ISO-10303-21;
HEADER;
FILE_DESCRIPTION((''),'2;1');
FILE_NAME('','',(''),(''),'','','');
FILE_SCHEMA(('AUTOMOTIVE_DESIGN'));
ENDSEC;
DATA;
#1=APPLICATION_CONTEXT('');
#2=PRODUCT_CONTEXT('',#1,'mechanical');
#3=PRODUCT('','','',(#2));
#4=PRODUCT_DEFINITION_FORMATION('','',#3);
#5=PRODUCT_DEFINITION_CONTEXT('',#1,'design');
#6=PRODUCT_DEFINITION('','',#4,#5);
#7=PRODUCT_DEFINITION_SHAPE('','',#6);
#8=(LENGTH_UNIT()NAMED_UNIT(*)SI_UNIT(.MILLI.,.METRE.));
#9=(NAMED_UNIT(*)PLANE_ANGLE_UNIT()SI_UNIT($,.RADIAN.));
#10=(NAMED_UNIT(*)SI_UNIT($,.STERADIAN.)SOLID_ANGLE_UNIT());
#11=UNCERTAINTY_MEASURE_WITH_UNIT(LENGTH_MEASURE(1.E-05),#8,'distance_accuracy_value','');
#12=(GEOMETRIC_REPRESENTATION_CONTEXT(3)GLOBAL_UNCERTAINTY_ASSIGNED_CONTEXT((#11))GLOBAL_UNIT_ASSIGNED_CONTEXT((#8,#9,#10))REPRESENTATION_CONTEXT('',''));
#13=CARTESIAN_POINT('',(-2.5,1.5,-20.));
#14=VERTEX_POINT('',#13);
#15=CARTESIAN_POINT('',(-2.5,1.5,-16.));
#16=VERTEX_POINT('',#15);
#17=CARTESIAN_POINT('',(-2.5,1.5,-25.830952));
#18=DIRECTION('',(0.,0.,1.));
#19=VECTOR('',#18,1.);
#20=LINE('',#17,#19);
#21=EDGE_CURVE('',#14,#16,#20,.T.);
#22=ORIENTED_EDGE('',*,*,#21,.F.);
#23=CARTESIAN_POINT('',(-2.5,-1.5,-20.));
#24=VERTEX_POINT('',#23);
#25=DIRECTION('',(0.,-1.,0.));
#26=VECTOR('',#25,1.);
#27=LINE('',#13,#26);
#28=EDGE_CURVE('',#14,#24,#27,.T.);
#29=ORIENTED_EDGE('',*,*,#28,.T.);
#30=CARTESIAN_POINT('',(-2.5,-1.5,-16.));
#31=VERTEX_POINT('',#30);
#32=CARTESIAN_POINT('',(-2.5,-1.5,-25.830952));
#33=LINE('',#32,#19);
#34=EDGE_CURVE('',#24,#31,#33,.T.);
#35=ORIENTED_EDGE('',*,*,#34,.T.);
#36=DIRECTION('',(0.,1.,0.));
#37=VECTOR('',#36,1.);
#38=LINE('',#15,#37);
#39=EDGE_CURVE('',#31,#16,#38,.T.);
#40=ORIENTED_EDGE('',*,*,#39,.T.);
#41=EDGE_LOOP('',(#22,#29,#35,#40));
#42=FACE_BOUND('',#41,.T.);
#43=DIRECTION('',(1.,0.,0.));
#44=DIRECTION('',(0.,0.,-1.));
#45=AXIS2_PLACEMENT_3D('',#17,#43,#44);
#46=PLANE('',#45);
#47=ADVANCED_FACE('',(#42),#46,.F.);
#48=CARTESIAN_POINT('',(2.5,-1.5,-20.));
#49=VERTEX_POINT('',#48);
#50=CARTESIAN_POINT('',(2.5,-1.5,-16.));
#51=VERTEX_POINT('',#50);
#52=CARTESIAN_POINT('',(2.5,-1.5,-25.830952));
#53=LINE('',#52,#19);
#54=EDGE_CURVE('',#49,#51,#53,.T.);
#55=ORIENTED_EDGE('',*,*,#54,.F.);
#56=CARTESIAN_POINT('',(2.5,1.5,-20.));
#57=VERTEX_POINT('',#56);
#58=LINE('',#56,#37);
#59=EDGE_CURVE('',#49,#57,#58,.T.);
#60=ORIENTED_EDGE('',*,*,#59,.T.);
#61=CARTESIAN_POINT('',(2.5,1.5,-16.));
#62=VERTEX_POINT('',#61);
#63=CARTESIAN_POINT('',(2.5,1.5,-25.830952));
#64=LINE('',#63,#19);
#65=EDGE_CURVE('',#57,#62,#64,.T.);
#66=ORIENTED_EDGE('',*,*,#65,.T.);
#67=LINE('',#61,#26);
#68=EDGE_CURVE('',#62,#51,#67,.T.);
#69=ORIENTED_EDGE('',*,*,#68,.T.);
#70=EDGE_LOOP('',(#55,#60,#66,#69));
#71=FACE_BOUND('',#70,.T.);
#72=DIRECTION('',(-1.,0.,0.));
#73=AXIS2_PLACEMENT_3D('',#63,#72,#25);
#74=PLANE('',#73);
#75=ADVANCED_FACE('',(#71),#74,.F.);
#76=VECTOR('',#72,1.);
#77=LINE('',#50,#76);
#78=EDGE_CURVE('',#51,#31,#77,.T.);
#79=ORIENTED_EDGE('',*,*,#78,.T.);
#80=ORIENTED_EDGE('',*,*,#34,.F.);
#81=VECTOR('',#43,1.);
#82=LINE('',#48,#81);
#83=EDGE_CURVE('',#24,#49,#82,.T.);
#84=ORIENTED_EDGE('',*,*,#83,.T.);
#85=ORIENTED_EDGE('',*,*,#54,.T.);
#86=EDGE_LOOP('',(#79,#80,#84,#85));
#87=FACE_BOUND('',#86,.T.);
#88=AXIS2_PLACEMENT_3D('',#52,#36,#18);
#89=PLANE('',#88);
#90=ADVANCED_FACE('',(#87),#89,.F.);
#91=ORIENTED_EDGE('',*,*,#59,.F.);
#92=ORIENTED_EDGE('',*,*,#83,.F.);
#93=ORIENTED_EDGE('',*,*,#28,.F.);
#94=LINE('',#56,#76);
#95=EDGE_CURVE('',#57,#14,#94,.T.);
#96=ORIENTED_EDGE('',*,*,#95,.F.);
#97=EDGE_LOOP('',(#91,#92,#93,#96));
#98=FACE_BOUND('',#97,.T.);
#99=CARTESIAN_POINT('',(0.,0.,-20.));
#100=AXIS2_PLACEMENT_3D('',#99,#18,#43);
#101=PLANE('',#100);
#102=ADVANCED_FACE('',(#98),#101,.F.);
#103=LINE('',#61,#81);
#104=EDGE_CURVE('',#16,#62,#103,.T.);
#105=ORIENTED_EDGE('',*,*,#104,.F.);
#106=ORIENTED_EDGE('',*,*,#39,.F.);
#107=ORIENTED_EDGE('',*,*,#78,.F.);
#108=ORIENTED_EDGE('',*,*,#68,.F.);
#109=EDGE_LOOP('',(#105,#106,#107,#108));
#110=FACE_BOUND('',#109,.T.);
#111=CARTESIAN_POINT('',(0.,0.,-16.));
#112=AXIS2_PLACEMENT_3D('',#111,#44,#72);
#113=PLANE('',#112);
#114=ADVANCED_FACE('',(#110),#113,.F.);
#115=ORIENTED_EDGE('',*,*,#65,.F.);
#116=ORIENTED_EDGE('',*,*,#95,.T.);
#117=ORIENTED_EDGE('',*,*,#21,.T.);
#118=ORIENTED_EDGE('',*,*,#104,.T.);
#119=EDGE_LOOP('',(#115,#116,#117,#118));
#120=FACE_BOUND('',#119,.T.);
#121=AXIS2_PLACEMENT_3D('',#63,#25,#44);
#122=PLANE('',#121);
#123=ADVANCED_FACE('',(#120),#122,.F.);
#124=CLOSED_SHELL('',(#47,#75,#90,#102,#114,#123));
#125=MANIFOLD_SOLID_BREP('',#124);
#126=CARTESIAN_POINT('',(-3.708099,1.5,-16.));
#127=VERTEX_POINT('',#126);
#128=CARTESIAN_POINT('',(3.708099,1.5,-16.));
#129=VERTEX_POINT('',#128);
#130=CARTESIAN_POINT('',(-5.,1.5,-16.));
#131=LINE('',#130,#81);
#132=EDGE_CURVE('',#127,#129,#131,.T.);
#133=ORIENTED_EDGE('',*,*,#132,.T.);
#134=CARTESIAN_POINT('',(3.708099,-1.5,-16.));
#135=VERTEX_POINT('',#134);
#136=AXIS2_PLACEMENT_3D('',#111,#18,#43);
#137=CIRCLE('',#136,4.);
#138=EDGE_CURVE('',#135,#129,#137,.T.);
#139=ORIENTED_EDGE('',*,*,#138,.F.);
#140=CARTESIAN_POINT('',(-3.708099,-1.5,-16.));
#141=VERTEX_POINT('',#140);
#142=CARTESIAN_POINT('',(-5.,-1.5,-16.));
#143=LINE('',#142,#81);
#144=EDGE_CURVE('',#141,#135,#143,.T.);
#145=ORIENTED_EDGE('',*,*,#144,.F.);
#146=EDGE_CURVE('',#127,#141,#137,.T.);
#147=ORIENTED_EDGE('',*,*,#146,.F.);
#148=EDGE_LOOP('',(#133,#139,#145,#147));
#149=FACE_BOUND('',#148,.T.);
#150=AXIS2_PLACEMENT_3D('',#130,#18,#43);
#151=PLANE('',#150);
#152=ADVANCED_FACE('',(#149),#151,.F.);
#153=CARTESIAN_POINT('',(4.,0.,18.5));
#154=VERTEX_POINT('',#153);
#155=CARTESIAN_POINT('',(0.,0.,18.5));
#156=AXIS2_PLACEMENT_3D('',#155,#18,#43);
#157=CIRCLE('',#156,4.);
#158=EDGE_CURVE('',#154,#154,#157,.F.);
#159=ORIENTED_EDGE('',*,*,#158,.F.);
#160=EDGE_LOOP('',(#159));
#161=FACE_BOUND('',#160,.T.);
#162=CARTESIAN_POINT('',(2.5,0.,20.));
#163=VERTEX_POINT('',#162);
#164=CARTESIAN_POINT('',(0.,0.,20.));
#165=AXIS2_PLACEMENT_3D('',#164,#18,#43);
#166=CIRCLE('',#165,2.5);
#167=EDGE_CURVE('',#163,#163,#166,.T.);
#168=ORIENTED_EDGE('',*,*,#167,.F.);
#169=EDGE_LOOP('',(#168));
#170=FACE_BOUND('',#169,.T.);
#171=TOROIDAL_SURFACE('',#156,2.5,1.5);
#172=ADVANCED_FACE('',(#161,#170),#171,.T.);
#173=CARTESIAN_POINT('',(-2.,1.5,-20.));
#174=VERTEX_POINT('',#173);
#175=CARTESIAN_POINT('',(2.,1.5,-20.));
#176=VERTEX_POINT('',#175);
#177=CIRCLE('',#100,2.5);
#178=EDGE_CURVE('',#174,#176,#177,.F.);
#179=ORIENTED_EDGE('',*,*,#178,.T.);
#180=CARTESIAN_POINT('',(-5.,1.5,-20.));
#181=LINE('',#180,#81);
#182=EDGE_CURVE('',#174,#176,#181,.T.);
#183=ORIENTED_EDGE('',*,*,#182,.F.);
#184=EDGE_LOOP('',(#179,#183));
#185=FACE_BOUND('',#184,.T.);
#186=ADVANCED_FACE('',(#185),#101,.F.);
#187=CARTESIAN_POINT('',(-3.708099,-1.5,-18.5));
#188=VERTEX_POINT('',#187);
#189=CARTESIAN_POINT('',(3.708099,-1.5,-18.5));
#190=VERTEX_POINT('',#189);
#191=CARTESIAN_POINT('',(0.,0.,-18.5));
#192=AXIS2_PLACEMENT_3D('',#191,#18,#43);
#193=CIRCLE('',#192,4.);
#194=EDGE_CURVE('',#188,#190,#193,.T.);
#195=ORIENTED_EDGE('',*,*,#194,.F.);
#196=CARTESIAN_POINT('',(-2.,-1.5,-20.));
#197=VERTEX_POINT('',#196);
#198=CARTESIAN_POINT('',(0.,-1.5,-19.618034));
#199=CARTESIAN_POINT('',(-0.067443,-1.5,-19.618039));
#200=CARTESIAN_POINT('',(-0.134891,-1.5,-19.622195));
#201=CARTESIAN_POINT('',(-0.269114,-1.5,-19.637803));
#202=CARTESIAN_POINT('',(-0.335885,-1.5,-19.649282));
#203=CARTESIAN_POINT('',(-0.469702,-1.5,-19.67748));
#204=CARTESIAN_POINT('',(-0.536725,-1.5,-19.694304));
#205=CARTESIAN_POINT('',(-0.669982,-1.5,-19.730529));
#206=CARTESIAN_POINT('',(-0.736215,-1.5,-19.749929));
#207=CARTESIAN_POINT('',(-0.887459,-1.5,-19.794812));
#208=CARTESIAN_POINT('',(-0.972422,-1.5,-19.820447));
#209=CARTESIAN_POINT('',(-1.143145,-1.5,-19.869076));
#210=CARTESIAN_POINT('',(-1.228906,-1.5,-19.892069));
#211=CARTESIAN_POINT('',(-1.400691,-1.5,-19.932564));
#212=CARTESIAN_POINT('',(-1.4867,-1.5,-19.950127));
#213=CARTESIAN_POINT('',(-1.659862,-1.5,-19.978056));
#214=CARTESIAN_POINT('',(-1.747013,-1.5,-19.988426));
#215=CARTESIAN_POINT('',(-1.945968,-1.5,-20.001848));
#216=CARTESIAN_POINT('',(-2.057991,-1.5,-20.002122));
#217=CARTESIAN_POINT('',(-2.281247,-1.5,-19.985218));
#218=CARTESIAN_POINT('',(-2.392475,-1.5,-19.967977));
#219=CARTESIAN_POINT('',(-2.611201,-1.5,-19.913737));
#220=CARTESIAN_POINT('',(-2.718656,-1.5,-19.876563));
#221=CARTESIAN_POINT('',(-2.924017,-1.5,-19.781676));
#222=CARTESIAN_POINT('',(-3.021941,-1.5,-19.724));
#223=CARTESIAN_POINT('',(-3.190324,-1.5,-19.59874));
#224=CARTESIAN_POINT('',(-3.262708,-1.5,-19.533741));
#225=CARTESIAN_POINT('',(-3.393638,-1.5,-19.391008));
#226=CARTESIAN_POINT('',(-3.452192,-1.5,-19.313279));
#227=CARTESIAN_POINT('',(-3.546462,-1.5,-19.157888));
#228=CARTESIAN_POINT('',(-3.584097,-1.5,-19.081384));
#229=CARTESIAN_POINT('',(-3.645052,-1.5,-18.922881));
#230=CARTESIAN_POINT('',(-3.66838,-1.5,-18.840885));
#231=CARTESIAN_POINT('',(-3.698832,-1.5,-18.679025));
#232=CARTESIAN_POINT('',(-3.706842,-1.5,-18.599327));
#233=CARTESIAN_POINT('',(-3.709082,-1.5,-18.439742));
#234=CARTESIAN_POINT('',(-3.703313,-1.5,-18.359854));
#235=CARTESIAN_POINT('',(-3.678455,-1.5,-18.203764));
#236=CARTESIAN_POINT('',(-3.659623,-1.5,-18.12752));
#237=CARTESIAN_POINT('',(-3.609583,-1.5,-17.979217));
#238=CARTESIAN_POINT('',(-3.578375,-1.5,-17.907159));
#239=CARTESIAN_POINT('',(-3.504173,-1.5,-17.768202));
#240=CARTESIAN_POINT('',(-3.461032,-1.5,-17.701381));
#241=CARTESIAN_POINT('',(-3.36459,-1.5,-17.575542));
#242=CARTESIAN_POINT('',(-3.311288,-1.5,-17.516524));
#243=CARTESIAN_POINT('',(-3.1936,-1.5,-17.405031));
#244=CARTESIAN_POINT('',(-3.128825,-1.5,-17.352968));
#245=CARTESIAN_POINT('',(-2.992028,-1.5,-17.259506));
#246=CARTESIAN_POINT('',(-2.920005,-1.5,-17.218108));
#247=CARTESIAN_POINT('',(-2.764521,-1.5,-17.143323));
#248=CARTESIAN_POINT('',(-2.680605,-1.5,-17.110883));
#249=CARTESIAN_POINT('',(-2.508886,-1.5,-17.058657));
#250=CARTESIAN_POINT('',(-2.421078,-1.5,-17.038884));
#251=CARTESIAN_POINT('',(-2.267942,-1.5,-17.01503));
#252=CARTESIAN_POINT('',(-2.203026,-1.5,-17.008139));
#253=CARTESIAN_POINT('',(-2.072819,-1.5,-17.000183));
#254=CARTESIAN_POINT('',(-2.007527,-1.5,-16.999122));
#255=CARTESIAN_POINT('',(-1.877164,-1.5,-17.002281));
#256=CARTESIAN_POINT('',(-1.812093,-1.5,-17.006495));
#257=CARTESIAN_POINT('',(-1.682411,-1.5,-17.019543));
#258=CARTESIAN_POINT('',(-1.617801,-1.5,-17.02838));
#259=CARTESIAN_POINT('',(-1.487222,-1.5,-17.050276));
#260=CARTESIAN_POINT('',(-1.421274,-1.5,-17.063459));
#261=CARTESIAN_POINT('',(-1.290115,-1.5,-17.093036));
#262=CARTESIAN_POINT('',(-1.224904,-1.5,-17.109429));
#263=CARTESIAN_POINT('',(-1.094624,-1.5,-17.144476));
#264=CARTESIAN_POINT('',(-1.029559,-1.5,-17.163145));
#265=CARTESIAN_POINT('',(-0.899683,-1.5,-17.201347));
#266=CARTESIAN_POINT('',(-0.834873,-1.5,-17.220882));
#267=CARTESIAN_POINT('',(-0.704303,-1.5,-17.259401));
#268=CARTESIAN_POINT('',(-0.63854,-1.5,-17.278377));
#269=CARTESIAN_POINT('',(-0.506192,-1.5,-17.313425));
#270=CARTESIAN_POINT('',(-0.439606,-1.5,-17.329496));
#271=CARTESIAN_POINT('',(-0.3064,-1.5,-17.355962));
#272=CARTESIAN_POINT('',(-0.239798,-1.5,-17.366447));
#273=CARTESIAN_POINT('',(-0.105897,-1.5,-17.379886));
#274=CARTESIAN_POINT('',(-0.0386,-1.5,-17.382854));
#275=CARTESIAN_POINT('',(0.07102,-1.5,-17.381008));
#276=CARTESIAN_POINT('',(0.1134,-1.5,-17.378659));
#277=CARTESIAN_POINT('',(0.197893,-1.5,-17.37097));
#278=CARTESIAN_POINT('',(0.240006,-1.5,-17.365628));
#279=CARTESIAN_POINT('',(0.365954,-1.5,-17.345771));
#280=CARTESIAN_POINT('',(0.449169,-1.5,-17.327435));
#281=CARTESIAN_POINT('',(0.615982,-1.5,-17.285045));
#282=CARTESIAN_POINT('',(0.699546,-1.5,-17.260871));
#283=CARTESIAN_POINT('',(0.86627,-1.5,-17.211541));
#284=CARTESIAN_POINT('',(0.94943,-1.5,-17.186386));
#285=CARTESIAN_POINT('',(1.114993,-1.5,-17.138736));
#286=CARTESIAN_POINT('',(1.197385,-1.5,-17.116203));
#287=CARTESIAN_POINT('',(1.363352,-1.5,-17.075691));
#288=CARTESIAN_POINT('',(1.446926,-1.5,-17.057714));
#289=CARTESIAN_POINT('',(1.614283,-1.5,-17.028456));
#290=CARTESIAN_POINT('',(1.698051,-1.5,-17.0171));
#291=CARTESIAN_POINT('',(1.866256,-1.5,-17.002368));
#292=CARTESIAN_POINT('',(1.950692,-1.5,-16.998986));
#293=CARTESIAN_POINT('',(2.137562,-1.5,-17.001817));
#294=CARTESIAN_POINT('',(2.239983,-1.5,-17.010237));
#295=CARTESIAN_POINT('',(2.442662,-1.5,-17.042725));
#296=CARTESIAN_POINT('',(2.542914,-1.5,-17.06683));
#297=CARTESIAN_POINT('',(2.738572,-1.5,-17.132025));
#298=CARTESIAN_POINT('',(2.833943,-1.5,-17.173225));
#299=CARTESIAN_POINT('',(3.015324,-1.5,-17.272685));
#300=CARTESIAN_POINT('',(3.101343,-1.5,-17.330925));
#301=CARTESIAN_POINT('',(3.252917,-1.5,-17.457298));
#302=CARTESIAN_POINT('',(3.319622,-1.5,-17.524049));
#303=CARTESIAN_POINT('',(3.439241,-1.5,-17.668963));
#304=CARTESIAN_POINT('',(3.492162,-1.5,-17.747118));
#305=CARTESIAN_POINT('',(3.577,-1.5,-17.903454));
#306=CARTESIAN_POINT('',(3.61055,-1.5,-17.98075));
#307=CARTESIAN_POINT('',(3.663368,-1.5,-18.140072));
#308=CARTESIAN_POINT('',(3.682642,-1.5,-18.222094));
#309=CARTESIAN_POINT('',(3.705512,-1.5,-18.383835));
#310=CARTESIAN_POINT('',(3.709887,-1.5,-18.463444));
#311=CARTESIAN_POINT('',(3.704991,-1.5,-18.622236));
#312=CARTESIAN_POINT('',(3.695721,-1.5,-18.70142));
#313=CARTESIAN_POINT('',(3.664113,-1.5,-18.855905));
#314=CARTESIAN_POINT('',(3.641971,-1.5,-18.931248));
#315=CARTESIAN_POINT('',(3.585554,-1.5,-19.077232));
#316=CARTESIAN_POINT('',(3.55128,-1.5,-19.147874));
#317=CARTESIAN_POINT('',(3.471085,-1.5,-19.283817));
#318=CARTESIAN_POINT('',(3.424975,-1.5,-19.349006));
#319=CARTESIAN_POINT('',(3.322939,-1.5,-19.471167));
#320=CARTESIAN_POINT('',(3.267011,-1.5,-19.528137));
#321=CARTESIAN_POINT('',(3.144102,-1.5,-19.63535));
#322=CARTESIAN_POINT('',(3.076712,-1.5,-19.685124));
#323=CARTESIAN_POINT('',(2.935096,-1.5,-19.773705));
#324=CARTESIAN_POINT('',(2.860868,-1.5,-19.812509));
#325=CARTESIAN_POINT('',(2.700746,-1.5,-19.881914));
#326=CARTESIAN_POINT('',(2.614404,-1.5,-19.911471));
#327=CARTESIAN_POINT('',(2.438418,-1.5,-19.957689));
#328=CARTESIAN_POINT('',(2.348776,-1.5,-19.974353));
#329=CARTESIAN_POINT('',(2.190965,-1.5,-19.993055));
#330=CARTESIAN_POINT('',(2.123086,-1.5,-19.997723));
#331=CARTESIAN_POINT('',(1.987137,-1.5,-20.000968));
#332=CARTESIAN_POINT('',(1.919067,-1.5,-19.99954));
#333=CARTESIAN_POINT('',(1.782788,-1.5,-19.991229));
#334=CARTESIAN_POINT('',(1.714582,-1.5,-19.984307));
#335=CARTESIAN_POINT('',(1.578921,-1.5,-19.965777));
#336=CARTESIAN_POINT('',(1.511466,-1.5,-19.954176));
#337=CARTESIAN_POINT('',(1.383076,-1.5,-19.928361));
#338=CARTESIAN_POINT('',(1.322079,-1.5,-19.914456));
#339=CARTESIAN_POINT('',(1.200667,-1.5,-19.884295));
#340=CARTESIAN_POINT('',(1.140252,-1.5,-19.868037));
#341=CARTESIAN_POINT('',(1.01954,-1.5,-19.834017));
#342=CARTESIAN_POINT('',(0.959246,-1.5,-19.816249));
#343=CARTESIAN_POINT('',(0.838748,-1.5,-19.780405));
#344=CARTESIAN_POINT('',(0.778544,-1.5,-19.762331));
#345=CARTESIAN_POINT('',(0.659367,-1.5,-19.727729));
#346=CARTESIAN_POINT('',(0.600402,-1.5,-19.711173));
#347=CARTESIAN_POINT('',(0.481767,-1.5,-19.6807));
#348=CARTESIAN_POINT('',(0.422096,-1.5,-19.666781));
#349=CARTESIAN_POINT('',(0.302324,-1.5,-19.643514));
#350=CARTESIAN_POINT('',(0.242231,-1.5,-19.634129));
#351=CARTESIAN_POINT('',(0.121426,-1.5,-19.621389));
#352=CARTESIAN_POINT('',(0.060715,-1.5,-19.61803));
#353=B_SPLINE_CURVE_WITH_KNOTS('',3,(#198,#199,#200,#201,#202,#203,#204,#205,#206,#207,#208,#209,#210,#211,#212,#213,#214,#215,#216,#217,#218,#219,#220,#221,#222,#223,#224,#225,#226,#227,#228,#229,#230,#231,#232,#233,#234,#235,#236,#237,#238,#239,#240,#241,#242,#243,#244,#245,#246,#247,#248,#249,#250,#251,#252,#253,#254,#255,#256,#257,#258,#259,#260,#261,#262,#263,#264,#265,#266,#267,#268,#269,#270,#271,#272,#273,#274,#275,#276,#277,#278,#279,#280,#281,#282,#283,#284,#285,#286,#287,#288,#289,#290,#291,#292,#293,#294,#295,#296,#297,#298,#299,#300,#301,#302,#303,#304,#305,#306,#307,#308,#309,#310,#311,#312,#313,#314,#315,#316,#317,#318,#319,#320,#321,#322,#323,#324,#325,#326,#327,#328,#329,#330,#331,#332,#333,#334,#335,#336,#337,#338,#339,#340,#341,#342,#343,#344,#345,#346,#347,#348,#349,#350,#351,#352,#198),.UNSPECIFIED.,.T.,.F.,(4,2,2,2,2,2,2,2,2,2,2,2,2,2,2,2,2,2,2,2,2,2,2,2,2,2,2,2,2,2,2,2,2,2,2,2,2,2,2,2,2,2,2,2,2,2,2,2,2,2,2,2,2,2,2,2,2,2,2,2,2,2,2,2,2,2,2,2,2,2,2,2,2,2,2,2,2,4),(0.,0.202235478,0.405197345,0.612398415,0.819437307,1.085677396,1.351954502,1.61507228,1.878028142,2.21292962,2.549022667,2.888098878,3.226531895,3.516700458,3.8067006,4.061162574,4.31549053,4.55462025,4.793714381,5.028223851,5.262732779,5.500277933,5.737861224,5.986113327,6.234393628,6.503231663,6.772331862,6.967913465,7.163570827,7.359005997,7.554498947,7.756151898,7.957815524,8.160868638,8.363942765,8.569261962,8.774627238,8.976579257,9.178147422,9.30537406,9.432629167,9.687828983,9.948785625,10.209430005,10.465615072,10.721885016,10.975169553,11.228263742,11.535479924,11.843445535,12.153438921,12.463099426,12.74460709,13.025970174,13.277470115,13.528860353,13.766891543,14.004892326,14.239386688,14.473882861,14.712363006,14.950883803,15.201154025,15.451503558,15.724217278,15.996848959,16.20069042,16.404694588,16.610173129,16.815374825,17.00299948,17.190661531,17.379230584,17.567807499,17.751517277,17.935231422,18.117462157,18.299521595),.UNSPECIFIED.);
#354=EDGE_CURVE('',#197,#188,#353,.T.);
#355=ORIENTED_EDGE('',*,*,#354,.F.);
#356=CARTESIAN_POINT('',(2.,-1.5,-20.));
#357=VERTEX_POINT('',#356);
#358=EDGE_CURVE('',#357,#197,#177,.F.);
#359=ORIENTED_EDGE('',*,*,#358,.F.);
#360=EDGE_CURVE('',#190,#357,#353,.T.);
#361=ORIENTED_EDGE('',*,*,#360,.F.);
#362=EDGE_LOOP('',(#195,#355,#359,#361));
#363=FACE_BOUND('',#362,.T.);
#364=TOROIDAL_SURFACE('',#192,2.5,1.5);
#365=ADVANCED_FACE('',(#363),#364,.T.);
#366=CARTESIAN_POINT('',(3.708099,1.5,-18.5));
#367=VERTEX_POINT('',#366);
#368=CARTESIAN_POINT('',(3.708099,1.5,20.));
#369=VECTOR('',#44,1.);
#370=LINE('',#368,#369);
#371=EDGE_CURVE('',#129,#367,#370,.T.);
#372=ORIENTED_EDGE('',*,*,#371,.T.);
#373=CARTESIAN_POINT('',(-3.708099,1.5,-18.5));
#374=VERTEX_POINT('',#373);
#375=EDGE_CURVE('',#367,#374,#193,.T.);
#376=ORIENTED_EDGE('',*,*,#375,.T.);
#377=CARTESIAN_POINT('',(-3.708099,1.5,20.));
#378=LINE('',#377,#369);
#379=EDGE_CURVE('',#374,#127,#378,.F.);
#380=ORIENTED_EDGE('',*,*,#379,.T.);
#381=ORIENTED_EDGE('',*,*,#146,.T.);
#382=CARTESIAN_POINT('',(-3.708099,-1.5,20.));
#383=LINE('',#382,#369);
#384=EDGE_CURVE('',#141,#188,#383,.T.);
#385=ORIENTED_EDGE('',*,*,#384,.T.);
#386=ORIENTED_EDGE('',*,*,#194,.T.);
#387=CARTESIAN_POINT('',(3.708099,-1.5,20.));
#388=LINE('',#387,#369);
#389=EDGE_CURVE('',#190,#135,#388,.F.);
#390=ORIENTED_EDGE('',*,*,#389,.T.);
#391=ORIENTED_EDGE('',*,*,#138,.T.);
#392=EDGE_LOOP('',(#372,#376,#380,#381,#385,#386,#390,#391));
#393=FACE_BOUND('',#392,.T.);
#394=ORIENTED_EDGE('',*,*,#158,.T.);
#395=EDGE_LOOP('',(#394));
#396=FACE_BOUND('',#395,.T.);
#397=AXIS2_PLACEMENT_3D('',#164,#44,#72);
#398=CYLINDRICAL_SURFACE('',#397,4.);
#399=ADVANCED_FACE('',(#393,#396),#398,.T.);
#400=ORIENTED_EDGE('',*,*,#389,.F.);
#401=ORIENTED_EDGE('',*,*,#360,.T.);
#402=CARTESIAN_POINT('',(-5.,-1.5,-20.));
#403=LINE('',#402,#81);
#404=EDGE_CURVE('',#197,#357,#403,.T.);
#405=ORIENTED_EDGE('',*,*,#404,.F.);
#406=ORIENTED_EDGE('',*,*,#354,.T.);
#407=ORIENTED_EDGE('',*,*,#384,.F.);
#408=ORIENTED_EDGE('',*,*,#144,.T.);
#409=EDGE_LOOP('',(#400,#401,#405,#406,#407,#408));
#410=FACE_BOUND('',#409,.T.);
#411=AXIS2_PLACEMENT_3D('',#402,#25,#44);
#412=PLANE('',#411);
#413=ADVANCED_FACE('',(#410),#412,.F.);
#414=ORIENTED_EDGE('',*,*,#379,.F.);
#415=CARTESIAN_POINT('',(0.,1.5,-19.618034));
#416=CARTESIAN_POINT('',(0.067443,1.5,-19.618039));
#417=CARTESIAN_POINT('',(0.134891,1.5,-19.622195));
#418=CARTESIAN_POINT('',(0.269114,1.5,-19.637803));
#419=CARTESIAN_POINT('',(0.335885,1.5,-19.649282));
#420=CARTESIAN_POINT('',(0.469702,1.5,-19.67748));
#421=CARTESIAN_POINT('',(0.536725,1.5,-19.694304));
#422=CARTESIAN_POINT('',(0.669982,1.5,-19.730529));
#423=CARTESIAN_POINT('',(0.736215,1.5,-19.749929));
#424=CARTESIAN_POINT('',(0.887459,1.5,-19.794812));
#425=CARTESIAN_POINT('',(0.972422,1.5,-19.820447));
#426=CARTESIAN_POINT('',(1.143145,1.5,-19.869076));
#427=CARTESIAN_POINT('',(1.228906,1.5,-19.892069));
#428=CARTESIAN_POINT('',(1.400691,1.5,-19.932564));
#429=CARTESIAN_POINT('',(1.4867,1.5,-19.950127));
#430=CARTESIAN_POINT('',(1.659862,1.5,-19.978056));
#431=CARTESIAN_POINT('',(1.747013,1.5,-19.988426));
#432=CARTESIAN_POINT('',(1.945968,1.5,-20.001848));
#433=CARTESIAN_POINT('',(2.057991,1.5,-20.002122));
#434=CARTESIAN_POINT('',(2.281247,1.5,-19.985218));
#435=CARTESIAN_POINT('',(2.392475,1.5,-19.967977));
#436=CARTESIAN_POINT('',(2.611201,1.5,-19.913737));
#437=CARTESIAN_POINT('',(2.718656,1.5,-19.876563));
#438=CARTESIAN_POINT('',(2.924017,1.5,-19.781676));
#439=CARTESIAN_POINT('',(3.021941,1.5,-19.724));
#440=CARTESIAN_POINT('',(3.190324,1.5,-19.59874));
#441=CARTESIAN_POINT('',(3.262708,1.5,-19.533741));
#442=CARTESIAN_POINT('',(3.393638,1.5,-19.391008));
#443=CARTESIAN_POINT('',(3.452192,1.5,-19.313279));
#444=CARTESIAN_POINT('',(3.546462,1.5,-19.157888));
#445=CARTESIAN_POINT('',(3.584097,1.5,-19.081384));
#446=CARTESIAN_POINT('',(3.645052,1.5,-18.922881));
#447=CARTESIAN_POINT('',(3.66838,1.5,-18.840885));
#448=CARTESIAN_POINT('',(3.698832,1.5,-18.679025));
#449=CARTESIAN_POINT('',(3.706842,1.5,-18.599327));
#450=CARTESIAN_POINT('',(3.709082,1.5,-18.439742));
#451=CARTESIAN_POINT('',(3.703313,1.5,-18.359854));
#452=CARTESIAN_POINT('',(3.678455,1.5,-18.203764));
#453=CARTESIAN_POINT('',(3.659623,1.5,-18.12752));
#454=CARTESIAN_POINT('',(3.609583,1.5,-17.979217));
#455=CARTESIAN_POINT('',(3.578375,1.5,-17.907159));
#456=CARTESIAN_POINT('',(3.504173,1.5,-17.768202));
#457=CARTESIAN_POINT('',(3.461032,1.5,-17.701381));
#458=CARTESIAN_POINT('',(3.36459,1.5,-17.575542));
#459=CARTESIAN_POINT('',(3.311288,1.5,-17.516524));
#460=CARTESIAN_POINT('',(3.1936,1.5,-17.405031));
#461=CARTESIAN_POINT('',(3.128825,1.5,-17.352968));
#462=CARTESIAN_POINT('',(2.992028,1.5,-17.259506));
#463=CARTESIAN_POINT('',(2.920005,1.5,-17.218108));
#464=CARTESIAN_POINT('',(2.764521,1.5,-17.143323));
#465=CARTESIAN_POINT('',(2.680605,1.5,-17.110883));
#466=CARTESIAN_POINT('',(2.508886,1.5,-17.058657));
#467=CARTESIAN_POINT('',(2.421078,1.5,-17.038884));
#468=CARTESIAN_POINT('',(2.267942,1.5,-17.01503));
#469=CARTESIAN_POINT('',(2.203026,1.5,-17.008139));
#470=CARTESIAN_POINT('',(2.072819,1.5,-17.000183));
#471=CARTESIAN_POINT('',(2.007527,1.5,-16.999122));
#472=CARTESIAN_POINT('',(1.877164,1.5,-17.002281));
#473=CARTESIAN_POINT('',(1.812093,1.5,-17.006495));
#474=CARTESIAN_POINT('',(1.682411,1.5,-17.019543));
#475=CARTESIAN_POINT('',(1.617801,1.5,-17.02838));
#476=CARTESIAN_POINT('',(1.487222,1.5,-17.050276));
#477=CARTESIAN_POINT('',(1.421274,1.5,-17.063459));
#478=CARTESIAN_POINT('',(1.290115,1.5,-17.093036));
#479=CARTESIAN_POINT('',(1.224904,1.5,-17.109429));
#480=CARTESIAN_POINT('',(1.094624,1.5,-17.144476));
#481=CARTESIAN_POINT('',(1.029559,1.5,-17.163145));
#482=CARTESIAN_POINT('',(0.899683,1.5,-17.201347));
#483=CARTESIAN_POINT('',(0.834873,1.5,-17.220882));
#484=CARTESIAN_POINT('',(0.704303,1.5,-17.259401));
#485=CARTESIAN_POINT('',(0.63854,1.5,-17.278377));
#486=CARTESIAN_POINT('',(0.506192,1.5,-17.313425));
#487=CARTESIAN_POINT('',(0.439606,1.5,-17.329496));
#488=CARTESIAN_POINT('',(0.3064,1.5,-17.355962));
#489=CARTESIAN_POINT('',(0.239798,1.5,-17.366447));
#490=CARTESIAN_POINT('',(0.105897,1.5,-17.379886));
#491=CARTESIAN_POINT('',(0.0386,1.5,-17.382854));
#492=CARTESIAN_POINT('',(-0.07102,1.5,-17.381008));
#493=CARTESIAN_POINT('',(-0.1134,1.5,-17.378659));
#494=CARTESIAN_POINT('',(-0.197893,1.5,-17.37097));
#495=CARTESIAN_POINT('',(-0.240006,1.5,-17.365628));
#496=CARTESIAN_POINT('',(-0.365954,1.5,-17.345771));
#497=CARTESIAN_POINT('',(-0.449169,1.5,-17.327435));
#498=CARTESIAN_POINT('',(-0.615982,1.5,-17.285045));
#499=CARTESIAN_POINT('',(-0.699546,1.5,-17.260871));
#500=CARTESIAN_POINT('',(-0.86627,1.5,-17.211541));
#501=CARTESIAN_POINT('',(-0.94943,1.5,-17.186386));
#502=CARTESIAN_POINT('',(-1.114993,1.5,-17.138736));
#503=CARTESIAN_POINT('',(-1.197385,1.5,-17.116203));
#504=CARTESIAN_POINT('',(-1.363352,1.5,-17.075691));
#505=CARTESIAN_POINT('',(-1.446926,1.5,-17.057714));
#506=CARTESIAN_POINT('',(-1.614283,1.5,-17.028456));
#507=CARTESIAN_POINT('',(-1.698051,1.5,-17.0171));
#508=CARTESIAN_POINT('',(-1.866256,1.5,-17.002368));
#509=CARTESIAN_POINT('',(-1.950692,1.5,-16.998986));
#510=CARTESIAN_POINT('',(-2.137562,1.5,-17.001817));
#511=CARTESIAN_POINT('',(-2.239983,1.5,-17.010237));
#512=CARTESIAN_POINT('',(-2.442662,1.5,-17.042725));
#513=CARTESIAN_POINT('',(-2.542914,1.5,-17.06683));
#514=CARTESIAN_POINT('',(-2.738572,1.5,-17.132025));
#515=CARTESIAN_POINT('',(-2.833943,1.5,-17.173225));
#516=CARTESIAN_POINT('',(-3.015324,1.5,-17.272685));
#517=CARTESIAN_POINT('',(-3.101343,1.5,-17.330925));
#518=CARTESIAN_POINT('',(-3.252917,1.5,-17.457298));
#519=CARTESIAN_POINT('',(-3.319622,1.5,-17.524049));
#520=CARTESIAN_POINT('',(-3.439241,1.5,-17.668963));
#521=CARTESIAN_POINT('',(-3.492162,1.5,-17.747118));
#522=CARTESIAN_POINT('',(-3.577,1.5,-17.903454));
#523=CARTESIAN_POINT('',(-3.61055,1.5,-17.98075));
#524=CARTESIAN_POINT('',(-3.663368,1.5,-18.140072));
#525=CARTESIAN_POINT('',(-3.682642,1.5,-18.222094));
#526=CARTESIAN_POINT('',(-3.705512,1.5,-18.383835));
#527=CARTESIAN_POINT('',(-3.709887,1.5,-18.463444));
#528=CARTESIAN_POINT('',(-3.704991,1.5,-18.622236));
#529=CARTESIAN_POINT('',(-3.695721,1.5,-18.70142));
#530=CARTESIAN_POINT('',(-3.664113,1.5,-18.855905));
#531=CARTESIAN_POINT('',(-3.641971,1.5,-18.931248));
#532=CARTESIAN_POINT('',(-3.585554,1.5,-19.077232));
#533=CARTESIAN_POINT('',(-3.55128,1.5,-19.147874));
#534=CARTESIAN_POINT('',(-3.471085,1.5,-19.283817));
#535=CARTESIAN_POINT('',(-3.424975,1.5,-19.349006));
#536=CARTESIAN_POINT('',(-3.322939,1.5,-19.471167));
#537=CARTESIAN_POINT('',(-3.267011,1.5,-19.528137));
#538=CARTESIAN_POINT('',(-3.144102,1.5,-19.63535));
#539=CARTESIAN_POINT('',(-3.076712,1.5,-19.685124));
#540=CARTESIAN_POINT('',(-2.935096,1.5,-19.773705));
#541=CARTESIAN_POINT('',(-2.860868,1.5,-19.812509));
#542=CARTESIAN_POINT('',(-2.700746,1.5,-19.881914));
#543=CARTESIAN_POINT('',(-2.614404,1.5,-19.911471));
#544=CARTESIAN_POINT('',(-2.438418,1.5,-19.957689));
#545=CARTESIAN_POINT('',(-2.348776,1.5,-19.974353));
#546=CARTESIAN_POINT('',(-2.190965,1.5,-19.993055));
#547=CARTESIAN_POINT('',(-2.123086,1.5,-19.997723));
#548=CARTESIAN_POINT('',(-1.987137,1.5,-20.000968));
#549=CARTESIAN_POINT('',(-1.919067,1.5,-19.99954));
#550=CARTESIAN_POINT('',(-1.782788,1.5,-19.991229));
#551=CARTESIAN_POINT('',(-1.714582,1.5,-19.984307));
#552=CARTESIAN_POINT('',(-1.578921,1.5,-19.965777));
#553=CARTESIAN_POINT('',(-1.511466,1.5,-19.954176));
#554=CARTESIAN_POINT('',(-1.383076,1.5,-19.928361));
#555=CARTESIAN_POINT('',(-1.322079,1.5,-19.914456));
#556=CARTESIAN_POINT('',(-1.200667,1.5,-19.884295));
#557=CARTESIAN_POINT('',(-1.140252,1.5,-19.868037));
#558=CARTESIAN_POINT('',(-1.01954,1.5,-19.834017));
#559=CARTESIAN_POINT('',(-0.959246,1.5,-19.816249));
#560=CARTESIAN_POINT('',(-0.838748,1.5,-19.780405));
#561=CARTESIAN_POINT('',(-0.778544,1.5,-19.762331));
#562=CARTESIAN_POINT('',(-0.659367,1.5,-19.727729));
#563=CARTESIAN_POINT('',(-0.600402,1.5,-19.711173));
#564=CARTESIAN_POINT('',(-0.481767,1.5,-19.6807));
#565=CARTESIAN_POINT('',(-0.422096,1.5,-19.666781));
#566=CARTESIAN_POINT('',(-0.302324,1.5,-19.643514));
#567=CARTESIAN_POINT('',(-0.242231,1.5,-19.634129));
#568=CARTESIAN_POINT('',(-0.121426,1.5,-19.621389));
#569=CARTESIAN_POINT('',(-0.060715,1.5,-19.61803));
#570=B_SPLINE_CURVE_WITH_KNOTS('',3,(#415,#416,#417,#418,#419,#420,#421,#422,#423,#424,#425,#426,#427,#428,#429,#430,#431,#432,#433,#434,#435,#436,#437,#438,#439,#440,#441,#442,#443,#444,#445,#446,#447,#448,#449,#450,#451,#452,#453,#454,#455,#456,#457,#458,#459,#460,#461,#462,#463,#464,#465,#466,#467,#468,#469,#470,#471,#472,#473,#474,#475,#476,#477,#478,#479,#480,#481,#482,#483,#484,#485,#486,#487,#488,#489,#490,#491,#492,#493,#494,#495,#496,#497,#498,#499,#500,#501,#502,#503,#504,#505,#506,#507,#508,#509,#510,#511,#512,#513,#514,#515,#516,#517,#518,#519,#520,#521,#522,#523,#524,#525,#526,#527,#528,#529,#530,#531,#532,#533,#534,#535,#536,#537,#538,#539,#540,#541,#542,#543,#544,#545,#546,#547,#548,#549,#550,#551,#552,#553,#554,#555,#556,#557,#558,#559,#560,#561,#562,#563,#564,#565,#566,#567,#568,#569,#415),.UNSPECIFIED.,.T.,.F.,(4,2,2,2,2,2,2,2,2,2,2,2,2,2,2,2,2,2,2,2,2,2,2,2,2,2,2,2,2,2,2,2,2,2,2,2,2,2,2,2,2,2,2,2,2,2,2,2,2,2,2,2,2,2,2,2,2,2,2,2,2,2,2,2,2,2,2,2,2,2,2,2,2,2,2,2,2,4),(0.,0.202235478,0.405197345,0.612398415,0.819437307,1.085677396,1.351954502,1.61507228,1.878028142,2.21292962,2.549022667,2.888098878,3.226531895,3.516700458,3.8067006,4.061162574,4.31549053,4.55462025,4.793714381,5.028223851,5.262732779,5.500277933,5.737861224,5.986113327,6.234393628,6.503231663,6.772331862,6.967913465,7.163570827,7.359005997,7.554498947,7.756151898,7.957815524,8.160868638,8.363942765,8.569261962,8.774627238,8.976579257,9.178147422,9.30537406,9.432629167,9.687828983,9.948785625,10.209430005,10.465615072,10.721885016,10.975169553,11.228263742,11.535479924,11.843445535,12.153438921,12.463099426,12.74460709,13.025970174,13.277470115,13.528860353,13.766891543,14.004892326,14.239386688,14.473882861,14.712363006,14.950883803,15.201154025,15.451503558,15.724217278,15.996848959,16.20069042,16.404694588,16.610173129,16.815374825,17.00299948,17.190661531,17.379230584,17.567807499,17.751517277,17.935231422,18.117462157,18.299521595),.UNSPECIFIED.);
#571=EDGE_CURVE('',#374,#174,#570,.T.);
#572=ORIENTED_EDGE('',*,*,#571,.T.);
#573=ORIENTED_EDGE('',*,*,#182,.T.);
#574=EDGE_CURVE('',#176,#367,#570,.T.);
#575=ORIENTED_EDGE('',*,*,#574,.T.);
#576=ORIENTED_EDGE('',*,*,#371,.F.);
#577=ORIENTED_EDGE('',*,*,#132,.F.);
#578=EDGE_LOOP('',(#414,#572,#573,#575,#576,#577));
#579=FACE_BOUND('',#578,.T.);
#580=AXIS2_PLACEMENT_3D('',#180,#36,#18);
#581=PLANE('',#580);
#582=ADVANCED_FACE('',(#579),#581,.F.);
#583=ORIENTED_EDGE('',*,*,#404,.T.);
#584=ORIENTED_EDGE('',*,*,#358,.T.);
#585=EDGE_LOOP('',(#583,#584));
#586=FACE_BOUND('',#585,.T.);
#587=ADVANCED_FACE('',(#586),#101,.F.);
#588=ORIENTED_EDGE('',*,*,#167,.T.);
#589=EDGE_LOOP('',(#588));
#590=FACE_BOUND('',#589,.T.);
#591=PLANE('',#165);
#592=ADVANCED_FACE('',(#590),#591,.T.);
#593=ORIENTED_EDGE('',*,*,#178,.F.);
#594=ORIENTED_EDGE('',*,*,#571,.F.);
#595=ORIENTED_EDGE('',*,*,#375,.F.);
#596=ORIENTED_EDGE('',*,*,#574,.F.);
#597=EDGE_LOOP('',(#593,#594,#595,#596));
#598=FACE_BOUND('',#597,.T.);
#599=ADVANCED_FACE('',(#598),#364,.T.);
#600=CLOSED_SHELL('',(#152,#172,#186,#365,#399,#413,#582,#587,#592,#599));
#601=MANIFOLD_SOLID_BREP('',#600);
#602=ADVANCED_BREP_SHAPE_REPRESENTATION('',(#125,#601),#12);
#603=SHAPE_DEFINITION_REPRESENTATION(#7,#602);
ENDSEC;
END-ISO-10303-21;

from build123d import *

# Parameters (mm, degrees)
ESQUISSE1_R             = 4
BOSS_EXTRU_1_DEPTH      = 20
CONG_1_R                = 1.5
ESQUISSE2_W             = 4
ESQUISSE2_H             = 3
ENL_V_MAT_EXTRU_1_DEPTH = 5
ESQUISSE3_W             = 5
ESQUISSE3_H             = 3
BOSS_EXTRU_2_DEPTH      = 4


with BuildPart() as part:
    # Esquisse1 → Boss.-Extru.1 (new body, symmetric)
    with BuildSketch(Plane.XY):
        Circle(ESQUISSE1_R)
    extrude(amount=BOSS_EXTRU_1_DEPTH, both=True)

    # Congé1
    cong_1_edges = [part.edges().sort_by_distance(p)[0] for p in [
        (-4, 0, -20),
        (-4, 0, 20),
    ]]
    fillet(cong_1_edges, radius=CONG_1_R)

    # Esquisse2 → Enlèv. mat.-Extru.1 (cut, symmetric)
    with BuildSketch(Plane(origin=(0, 0, 0), x_dir=(0, 0, -1), z_dir=(1, 0, 0))):
        with Locations((18, 0)):
            Rectangle(ESQUISSE2_W, ESQUISSE2_H)
    extrude(amount=ENL_V_MAT_EXTRU_1_DEPTH, both=True, mode=Mode.SUBTRACT)


with BuildPart() as body_2:
    # Esquisse3 → Boss.-Extru.2 (new body)
    with BuildSketch(Plane(origin=(0, 0, -16), x_dir=(-1, 0, 0), z_dir=(0, 0, -1))):
        Rectangle(ESQUISSE3_W, ESQUISSE3_H)
    extrude(amount=BOSS_EXTRU_2_DEPTH)


solid = Compound([part.part, body_2.part])
